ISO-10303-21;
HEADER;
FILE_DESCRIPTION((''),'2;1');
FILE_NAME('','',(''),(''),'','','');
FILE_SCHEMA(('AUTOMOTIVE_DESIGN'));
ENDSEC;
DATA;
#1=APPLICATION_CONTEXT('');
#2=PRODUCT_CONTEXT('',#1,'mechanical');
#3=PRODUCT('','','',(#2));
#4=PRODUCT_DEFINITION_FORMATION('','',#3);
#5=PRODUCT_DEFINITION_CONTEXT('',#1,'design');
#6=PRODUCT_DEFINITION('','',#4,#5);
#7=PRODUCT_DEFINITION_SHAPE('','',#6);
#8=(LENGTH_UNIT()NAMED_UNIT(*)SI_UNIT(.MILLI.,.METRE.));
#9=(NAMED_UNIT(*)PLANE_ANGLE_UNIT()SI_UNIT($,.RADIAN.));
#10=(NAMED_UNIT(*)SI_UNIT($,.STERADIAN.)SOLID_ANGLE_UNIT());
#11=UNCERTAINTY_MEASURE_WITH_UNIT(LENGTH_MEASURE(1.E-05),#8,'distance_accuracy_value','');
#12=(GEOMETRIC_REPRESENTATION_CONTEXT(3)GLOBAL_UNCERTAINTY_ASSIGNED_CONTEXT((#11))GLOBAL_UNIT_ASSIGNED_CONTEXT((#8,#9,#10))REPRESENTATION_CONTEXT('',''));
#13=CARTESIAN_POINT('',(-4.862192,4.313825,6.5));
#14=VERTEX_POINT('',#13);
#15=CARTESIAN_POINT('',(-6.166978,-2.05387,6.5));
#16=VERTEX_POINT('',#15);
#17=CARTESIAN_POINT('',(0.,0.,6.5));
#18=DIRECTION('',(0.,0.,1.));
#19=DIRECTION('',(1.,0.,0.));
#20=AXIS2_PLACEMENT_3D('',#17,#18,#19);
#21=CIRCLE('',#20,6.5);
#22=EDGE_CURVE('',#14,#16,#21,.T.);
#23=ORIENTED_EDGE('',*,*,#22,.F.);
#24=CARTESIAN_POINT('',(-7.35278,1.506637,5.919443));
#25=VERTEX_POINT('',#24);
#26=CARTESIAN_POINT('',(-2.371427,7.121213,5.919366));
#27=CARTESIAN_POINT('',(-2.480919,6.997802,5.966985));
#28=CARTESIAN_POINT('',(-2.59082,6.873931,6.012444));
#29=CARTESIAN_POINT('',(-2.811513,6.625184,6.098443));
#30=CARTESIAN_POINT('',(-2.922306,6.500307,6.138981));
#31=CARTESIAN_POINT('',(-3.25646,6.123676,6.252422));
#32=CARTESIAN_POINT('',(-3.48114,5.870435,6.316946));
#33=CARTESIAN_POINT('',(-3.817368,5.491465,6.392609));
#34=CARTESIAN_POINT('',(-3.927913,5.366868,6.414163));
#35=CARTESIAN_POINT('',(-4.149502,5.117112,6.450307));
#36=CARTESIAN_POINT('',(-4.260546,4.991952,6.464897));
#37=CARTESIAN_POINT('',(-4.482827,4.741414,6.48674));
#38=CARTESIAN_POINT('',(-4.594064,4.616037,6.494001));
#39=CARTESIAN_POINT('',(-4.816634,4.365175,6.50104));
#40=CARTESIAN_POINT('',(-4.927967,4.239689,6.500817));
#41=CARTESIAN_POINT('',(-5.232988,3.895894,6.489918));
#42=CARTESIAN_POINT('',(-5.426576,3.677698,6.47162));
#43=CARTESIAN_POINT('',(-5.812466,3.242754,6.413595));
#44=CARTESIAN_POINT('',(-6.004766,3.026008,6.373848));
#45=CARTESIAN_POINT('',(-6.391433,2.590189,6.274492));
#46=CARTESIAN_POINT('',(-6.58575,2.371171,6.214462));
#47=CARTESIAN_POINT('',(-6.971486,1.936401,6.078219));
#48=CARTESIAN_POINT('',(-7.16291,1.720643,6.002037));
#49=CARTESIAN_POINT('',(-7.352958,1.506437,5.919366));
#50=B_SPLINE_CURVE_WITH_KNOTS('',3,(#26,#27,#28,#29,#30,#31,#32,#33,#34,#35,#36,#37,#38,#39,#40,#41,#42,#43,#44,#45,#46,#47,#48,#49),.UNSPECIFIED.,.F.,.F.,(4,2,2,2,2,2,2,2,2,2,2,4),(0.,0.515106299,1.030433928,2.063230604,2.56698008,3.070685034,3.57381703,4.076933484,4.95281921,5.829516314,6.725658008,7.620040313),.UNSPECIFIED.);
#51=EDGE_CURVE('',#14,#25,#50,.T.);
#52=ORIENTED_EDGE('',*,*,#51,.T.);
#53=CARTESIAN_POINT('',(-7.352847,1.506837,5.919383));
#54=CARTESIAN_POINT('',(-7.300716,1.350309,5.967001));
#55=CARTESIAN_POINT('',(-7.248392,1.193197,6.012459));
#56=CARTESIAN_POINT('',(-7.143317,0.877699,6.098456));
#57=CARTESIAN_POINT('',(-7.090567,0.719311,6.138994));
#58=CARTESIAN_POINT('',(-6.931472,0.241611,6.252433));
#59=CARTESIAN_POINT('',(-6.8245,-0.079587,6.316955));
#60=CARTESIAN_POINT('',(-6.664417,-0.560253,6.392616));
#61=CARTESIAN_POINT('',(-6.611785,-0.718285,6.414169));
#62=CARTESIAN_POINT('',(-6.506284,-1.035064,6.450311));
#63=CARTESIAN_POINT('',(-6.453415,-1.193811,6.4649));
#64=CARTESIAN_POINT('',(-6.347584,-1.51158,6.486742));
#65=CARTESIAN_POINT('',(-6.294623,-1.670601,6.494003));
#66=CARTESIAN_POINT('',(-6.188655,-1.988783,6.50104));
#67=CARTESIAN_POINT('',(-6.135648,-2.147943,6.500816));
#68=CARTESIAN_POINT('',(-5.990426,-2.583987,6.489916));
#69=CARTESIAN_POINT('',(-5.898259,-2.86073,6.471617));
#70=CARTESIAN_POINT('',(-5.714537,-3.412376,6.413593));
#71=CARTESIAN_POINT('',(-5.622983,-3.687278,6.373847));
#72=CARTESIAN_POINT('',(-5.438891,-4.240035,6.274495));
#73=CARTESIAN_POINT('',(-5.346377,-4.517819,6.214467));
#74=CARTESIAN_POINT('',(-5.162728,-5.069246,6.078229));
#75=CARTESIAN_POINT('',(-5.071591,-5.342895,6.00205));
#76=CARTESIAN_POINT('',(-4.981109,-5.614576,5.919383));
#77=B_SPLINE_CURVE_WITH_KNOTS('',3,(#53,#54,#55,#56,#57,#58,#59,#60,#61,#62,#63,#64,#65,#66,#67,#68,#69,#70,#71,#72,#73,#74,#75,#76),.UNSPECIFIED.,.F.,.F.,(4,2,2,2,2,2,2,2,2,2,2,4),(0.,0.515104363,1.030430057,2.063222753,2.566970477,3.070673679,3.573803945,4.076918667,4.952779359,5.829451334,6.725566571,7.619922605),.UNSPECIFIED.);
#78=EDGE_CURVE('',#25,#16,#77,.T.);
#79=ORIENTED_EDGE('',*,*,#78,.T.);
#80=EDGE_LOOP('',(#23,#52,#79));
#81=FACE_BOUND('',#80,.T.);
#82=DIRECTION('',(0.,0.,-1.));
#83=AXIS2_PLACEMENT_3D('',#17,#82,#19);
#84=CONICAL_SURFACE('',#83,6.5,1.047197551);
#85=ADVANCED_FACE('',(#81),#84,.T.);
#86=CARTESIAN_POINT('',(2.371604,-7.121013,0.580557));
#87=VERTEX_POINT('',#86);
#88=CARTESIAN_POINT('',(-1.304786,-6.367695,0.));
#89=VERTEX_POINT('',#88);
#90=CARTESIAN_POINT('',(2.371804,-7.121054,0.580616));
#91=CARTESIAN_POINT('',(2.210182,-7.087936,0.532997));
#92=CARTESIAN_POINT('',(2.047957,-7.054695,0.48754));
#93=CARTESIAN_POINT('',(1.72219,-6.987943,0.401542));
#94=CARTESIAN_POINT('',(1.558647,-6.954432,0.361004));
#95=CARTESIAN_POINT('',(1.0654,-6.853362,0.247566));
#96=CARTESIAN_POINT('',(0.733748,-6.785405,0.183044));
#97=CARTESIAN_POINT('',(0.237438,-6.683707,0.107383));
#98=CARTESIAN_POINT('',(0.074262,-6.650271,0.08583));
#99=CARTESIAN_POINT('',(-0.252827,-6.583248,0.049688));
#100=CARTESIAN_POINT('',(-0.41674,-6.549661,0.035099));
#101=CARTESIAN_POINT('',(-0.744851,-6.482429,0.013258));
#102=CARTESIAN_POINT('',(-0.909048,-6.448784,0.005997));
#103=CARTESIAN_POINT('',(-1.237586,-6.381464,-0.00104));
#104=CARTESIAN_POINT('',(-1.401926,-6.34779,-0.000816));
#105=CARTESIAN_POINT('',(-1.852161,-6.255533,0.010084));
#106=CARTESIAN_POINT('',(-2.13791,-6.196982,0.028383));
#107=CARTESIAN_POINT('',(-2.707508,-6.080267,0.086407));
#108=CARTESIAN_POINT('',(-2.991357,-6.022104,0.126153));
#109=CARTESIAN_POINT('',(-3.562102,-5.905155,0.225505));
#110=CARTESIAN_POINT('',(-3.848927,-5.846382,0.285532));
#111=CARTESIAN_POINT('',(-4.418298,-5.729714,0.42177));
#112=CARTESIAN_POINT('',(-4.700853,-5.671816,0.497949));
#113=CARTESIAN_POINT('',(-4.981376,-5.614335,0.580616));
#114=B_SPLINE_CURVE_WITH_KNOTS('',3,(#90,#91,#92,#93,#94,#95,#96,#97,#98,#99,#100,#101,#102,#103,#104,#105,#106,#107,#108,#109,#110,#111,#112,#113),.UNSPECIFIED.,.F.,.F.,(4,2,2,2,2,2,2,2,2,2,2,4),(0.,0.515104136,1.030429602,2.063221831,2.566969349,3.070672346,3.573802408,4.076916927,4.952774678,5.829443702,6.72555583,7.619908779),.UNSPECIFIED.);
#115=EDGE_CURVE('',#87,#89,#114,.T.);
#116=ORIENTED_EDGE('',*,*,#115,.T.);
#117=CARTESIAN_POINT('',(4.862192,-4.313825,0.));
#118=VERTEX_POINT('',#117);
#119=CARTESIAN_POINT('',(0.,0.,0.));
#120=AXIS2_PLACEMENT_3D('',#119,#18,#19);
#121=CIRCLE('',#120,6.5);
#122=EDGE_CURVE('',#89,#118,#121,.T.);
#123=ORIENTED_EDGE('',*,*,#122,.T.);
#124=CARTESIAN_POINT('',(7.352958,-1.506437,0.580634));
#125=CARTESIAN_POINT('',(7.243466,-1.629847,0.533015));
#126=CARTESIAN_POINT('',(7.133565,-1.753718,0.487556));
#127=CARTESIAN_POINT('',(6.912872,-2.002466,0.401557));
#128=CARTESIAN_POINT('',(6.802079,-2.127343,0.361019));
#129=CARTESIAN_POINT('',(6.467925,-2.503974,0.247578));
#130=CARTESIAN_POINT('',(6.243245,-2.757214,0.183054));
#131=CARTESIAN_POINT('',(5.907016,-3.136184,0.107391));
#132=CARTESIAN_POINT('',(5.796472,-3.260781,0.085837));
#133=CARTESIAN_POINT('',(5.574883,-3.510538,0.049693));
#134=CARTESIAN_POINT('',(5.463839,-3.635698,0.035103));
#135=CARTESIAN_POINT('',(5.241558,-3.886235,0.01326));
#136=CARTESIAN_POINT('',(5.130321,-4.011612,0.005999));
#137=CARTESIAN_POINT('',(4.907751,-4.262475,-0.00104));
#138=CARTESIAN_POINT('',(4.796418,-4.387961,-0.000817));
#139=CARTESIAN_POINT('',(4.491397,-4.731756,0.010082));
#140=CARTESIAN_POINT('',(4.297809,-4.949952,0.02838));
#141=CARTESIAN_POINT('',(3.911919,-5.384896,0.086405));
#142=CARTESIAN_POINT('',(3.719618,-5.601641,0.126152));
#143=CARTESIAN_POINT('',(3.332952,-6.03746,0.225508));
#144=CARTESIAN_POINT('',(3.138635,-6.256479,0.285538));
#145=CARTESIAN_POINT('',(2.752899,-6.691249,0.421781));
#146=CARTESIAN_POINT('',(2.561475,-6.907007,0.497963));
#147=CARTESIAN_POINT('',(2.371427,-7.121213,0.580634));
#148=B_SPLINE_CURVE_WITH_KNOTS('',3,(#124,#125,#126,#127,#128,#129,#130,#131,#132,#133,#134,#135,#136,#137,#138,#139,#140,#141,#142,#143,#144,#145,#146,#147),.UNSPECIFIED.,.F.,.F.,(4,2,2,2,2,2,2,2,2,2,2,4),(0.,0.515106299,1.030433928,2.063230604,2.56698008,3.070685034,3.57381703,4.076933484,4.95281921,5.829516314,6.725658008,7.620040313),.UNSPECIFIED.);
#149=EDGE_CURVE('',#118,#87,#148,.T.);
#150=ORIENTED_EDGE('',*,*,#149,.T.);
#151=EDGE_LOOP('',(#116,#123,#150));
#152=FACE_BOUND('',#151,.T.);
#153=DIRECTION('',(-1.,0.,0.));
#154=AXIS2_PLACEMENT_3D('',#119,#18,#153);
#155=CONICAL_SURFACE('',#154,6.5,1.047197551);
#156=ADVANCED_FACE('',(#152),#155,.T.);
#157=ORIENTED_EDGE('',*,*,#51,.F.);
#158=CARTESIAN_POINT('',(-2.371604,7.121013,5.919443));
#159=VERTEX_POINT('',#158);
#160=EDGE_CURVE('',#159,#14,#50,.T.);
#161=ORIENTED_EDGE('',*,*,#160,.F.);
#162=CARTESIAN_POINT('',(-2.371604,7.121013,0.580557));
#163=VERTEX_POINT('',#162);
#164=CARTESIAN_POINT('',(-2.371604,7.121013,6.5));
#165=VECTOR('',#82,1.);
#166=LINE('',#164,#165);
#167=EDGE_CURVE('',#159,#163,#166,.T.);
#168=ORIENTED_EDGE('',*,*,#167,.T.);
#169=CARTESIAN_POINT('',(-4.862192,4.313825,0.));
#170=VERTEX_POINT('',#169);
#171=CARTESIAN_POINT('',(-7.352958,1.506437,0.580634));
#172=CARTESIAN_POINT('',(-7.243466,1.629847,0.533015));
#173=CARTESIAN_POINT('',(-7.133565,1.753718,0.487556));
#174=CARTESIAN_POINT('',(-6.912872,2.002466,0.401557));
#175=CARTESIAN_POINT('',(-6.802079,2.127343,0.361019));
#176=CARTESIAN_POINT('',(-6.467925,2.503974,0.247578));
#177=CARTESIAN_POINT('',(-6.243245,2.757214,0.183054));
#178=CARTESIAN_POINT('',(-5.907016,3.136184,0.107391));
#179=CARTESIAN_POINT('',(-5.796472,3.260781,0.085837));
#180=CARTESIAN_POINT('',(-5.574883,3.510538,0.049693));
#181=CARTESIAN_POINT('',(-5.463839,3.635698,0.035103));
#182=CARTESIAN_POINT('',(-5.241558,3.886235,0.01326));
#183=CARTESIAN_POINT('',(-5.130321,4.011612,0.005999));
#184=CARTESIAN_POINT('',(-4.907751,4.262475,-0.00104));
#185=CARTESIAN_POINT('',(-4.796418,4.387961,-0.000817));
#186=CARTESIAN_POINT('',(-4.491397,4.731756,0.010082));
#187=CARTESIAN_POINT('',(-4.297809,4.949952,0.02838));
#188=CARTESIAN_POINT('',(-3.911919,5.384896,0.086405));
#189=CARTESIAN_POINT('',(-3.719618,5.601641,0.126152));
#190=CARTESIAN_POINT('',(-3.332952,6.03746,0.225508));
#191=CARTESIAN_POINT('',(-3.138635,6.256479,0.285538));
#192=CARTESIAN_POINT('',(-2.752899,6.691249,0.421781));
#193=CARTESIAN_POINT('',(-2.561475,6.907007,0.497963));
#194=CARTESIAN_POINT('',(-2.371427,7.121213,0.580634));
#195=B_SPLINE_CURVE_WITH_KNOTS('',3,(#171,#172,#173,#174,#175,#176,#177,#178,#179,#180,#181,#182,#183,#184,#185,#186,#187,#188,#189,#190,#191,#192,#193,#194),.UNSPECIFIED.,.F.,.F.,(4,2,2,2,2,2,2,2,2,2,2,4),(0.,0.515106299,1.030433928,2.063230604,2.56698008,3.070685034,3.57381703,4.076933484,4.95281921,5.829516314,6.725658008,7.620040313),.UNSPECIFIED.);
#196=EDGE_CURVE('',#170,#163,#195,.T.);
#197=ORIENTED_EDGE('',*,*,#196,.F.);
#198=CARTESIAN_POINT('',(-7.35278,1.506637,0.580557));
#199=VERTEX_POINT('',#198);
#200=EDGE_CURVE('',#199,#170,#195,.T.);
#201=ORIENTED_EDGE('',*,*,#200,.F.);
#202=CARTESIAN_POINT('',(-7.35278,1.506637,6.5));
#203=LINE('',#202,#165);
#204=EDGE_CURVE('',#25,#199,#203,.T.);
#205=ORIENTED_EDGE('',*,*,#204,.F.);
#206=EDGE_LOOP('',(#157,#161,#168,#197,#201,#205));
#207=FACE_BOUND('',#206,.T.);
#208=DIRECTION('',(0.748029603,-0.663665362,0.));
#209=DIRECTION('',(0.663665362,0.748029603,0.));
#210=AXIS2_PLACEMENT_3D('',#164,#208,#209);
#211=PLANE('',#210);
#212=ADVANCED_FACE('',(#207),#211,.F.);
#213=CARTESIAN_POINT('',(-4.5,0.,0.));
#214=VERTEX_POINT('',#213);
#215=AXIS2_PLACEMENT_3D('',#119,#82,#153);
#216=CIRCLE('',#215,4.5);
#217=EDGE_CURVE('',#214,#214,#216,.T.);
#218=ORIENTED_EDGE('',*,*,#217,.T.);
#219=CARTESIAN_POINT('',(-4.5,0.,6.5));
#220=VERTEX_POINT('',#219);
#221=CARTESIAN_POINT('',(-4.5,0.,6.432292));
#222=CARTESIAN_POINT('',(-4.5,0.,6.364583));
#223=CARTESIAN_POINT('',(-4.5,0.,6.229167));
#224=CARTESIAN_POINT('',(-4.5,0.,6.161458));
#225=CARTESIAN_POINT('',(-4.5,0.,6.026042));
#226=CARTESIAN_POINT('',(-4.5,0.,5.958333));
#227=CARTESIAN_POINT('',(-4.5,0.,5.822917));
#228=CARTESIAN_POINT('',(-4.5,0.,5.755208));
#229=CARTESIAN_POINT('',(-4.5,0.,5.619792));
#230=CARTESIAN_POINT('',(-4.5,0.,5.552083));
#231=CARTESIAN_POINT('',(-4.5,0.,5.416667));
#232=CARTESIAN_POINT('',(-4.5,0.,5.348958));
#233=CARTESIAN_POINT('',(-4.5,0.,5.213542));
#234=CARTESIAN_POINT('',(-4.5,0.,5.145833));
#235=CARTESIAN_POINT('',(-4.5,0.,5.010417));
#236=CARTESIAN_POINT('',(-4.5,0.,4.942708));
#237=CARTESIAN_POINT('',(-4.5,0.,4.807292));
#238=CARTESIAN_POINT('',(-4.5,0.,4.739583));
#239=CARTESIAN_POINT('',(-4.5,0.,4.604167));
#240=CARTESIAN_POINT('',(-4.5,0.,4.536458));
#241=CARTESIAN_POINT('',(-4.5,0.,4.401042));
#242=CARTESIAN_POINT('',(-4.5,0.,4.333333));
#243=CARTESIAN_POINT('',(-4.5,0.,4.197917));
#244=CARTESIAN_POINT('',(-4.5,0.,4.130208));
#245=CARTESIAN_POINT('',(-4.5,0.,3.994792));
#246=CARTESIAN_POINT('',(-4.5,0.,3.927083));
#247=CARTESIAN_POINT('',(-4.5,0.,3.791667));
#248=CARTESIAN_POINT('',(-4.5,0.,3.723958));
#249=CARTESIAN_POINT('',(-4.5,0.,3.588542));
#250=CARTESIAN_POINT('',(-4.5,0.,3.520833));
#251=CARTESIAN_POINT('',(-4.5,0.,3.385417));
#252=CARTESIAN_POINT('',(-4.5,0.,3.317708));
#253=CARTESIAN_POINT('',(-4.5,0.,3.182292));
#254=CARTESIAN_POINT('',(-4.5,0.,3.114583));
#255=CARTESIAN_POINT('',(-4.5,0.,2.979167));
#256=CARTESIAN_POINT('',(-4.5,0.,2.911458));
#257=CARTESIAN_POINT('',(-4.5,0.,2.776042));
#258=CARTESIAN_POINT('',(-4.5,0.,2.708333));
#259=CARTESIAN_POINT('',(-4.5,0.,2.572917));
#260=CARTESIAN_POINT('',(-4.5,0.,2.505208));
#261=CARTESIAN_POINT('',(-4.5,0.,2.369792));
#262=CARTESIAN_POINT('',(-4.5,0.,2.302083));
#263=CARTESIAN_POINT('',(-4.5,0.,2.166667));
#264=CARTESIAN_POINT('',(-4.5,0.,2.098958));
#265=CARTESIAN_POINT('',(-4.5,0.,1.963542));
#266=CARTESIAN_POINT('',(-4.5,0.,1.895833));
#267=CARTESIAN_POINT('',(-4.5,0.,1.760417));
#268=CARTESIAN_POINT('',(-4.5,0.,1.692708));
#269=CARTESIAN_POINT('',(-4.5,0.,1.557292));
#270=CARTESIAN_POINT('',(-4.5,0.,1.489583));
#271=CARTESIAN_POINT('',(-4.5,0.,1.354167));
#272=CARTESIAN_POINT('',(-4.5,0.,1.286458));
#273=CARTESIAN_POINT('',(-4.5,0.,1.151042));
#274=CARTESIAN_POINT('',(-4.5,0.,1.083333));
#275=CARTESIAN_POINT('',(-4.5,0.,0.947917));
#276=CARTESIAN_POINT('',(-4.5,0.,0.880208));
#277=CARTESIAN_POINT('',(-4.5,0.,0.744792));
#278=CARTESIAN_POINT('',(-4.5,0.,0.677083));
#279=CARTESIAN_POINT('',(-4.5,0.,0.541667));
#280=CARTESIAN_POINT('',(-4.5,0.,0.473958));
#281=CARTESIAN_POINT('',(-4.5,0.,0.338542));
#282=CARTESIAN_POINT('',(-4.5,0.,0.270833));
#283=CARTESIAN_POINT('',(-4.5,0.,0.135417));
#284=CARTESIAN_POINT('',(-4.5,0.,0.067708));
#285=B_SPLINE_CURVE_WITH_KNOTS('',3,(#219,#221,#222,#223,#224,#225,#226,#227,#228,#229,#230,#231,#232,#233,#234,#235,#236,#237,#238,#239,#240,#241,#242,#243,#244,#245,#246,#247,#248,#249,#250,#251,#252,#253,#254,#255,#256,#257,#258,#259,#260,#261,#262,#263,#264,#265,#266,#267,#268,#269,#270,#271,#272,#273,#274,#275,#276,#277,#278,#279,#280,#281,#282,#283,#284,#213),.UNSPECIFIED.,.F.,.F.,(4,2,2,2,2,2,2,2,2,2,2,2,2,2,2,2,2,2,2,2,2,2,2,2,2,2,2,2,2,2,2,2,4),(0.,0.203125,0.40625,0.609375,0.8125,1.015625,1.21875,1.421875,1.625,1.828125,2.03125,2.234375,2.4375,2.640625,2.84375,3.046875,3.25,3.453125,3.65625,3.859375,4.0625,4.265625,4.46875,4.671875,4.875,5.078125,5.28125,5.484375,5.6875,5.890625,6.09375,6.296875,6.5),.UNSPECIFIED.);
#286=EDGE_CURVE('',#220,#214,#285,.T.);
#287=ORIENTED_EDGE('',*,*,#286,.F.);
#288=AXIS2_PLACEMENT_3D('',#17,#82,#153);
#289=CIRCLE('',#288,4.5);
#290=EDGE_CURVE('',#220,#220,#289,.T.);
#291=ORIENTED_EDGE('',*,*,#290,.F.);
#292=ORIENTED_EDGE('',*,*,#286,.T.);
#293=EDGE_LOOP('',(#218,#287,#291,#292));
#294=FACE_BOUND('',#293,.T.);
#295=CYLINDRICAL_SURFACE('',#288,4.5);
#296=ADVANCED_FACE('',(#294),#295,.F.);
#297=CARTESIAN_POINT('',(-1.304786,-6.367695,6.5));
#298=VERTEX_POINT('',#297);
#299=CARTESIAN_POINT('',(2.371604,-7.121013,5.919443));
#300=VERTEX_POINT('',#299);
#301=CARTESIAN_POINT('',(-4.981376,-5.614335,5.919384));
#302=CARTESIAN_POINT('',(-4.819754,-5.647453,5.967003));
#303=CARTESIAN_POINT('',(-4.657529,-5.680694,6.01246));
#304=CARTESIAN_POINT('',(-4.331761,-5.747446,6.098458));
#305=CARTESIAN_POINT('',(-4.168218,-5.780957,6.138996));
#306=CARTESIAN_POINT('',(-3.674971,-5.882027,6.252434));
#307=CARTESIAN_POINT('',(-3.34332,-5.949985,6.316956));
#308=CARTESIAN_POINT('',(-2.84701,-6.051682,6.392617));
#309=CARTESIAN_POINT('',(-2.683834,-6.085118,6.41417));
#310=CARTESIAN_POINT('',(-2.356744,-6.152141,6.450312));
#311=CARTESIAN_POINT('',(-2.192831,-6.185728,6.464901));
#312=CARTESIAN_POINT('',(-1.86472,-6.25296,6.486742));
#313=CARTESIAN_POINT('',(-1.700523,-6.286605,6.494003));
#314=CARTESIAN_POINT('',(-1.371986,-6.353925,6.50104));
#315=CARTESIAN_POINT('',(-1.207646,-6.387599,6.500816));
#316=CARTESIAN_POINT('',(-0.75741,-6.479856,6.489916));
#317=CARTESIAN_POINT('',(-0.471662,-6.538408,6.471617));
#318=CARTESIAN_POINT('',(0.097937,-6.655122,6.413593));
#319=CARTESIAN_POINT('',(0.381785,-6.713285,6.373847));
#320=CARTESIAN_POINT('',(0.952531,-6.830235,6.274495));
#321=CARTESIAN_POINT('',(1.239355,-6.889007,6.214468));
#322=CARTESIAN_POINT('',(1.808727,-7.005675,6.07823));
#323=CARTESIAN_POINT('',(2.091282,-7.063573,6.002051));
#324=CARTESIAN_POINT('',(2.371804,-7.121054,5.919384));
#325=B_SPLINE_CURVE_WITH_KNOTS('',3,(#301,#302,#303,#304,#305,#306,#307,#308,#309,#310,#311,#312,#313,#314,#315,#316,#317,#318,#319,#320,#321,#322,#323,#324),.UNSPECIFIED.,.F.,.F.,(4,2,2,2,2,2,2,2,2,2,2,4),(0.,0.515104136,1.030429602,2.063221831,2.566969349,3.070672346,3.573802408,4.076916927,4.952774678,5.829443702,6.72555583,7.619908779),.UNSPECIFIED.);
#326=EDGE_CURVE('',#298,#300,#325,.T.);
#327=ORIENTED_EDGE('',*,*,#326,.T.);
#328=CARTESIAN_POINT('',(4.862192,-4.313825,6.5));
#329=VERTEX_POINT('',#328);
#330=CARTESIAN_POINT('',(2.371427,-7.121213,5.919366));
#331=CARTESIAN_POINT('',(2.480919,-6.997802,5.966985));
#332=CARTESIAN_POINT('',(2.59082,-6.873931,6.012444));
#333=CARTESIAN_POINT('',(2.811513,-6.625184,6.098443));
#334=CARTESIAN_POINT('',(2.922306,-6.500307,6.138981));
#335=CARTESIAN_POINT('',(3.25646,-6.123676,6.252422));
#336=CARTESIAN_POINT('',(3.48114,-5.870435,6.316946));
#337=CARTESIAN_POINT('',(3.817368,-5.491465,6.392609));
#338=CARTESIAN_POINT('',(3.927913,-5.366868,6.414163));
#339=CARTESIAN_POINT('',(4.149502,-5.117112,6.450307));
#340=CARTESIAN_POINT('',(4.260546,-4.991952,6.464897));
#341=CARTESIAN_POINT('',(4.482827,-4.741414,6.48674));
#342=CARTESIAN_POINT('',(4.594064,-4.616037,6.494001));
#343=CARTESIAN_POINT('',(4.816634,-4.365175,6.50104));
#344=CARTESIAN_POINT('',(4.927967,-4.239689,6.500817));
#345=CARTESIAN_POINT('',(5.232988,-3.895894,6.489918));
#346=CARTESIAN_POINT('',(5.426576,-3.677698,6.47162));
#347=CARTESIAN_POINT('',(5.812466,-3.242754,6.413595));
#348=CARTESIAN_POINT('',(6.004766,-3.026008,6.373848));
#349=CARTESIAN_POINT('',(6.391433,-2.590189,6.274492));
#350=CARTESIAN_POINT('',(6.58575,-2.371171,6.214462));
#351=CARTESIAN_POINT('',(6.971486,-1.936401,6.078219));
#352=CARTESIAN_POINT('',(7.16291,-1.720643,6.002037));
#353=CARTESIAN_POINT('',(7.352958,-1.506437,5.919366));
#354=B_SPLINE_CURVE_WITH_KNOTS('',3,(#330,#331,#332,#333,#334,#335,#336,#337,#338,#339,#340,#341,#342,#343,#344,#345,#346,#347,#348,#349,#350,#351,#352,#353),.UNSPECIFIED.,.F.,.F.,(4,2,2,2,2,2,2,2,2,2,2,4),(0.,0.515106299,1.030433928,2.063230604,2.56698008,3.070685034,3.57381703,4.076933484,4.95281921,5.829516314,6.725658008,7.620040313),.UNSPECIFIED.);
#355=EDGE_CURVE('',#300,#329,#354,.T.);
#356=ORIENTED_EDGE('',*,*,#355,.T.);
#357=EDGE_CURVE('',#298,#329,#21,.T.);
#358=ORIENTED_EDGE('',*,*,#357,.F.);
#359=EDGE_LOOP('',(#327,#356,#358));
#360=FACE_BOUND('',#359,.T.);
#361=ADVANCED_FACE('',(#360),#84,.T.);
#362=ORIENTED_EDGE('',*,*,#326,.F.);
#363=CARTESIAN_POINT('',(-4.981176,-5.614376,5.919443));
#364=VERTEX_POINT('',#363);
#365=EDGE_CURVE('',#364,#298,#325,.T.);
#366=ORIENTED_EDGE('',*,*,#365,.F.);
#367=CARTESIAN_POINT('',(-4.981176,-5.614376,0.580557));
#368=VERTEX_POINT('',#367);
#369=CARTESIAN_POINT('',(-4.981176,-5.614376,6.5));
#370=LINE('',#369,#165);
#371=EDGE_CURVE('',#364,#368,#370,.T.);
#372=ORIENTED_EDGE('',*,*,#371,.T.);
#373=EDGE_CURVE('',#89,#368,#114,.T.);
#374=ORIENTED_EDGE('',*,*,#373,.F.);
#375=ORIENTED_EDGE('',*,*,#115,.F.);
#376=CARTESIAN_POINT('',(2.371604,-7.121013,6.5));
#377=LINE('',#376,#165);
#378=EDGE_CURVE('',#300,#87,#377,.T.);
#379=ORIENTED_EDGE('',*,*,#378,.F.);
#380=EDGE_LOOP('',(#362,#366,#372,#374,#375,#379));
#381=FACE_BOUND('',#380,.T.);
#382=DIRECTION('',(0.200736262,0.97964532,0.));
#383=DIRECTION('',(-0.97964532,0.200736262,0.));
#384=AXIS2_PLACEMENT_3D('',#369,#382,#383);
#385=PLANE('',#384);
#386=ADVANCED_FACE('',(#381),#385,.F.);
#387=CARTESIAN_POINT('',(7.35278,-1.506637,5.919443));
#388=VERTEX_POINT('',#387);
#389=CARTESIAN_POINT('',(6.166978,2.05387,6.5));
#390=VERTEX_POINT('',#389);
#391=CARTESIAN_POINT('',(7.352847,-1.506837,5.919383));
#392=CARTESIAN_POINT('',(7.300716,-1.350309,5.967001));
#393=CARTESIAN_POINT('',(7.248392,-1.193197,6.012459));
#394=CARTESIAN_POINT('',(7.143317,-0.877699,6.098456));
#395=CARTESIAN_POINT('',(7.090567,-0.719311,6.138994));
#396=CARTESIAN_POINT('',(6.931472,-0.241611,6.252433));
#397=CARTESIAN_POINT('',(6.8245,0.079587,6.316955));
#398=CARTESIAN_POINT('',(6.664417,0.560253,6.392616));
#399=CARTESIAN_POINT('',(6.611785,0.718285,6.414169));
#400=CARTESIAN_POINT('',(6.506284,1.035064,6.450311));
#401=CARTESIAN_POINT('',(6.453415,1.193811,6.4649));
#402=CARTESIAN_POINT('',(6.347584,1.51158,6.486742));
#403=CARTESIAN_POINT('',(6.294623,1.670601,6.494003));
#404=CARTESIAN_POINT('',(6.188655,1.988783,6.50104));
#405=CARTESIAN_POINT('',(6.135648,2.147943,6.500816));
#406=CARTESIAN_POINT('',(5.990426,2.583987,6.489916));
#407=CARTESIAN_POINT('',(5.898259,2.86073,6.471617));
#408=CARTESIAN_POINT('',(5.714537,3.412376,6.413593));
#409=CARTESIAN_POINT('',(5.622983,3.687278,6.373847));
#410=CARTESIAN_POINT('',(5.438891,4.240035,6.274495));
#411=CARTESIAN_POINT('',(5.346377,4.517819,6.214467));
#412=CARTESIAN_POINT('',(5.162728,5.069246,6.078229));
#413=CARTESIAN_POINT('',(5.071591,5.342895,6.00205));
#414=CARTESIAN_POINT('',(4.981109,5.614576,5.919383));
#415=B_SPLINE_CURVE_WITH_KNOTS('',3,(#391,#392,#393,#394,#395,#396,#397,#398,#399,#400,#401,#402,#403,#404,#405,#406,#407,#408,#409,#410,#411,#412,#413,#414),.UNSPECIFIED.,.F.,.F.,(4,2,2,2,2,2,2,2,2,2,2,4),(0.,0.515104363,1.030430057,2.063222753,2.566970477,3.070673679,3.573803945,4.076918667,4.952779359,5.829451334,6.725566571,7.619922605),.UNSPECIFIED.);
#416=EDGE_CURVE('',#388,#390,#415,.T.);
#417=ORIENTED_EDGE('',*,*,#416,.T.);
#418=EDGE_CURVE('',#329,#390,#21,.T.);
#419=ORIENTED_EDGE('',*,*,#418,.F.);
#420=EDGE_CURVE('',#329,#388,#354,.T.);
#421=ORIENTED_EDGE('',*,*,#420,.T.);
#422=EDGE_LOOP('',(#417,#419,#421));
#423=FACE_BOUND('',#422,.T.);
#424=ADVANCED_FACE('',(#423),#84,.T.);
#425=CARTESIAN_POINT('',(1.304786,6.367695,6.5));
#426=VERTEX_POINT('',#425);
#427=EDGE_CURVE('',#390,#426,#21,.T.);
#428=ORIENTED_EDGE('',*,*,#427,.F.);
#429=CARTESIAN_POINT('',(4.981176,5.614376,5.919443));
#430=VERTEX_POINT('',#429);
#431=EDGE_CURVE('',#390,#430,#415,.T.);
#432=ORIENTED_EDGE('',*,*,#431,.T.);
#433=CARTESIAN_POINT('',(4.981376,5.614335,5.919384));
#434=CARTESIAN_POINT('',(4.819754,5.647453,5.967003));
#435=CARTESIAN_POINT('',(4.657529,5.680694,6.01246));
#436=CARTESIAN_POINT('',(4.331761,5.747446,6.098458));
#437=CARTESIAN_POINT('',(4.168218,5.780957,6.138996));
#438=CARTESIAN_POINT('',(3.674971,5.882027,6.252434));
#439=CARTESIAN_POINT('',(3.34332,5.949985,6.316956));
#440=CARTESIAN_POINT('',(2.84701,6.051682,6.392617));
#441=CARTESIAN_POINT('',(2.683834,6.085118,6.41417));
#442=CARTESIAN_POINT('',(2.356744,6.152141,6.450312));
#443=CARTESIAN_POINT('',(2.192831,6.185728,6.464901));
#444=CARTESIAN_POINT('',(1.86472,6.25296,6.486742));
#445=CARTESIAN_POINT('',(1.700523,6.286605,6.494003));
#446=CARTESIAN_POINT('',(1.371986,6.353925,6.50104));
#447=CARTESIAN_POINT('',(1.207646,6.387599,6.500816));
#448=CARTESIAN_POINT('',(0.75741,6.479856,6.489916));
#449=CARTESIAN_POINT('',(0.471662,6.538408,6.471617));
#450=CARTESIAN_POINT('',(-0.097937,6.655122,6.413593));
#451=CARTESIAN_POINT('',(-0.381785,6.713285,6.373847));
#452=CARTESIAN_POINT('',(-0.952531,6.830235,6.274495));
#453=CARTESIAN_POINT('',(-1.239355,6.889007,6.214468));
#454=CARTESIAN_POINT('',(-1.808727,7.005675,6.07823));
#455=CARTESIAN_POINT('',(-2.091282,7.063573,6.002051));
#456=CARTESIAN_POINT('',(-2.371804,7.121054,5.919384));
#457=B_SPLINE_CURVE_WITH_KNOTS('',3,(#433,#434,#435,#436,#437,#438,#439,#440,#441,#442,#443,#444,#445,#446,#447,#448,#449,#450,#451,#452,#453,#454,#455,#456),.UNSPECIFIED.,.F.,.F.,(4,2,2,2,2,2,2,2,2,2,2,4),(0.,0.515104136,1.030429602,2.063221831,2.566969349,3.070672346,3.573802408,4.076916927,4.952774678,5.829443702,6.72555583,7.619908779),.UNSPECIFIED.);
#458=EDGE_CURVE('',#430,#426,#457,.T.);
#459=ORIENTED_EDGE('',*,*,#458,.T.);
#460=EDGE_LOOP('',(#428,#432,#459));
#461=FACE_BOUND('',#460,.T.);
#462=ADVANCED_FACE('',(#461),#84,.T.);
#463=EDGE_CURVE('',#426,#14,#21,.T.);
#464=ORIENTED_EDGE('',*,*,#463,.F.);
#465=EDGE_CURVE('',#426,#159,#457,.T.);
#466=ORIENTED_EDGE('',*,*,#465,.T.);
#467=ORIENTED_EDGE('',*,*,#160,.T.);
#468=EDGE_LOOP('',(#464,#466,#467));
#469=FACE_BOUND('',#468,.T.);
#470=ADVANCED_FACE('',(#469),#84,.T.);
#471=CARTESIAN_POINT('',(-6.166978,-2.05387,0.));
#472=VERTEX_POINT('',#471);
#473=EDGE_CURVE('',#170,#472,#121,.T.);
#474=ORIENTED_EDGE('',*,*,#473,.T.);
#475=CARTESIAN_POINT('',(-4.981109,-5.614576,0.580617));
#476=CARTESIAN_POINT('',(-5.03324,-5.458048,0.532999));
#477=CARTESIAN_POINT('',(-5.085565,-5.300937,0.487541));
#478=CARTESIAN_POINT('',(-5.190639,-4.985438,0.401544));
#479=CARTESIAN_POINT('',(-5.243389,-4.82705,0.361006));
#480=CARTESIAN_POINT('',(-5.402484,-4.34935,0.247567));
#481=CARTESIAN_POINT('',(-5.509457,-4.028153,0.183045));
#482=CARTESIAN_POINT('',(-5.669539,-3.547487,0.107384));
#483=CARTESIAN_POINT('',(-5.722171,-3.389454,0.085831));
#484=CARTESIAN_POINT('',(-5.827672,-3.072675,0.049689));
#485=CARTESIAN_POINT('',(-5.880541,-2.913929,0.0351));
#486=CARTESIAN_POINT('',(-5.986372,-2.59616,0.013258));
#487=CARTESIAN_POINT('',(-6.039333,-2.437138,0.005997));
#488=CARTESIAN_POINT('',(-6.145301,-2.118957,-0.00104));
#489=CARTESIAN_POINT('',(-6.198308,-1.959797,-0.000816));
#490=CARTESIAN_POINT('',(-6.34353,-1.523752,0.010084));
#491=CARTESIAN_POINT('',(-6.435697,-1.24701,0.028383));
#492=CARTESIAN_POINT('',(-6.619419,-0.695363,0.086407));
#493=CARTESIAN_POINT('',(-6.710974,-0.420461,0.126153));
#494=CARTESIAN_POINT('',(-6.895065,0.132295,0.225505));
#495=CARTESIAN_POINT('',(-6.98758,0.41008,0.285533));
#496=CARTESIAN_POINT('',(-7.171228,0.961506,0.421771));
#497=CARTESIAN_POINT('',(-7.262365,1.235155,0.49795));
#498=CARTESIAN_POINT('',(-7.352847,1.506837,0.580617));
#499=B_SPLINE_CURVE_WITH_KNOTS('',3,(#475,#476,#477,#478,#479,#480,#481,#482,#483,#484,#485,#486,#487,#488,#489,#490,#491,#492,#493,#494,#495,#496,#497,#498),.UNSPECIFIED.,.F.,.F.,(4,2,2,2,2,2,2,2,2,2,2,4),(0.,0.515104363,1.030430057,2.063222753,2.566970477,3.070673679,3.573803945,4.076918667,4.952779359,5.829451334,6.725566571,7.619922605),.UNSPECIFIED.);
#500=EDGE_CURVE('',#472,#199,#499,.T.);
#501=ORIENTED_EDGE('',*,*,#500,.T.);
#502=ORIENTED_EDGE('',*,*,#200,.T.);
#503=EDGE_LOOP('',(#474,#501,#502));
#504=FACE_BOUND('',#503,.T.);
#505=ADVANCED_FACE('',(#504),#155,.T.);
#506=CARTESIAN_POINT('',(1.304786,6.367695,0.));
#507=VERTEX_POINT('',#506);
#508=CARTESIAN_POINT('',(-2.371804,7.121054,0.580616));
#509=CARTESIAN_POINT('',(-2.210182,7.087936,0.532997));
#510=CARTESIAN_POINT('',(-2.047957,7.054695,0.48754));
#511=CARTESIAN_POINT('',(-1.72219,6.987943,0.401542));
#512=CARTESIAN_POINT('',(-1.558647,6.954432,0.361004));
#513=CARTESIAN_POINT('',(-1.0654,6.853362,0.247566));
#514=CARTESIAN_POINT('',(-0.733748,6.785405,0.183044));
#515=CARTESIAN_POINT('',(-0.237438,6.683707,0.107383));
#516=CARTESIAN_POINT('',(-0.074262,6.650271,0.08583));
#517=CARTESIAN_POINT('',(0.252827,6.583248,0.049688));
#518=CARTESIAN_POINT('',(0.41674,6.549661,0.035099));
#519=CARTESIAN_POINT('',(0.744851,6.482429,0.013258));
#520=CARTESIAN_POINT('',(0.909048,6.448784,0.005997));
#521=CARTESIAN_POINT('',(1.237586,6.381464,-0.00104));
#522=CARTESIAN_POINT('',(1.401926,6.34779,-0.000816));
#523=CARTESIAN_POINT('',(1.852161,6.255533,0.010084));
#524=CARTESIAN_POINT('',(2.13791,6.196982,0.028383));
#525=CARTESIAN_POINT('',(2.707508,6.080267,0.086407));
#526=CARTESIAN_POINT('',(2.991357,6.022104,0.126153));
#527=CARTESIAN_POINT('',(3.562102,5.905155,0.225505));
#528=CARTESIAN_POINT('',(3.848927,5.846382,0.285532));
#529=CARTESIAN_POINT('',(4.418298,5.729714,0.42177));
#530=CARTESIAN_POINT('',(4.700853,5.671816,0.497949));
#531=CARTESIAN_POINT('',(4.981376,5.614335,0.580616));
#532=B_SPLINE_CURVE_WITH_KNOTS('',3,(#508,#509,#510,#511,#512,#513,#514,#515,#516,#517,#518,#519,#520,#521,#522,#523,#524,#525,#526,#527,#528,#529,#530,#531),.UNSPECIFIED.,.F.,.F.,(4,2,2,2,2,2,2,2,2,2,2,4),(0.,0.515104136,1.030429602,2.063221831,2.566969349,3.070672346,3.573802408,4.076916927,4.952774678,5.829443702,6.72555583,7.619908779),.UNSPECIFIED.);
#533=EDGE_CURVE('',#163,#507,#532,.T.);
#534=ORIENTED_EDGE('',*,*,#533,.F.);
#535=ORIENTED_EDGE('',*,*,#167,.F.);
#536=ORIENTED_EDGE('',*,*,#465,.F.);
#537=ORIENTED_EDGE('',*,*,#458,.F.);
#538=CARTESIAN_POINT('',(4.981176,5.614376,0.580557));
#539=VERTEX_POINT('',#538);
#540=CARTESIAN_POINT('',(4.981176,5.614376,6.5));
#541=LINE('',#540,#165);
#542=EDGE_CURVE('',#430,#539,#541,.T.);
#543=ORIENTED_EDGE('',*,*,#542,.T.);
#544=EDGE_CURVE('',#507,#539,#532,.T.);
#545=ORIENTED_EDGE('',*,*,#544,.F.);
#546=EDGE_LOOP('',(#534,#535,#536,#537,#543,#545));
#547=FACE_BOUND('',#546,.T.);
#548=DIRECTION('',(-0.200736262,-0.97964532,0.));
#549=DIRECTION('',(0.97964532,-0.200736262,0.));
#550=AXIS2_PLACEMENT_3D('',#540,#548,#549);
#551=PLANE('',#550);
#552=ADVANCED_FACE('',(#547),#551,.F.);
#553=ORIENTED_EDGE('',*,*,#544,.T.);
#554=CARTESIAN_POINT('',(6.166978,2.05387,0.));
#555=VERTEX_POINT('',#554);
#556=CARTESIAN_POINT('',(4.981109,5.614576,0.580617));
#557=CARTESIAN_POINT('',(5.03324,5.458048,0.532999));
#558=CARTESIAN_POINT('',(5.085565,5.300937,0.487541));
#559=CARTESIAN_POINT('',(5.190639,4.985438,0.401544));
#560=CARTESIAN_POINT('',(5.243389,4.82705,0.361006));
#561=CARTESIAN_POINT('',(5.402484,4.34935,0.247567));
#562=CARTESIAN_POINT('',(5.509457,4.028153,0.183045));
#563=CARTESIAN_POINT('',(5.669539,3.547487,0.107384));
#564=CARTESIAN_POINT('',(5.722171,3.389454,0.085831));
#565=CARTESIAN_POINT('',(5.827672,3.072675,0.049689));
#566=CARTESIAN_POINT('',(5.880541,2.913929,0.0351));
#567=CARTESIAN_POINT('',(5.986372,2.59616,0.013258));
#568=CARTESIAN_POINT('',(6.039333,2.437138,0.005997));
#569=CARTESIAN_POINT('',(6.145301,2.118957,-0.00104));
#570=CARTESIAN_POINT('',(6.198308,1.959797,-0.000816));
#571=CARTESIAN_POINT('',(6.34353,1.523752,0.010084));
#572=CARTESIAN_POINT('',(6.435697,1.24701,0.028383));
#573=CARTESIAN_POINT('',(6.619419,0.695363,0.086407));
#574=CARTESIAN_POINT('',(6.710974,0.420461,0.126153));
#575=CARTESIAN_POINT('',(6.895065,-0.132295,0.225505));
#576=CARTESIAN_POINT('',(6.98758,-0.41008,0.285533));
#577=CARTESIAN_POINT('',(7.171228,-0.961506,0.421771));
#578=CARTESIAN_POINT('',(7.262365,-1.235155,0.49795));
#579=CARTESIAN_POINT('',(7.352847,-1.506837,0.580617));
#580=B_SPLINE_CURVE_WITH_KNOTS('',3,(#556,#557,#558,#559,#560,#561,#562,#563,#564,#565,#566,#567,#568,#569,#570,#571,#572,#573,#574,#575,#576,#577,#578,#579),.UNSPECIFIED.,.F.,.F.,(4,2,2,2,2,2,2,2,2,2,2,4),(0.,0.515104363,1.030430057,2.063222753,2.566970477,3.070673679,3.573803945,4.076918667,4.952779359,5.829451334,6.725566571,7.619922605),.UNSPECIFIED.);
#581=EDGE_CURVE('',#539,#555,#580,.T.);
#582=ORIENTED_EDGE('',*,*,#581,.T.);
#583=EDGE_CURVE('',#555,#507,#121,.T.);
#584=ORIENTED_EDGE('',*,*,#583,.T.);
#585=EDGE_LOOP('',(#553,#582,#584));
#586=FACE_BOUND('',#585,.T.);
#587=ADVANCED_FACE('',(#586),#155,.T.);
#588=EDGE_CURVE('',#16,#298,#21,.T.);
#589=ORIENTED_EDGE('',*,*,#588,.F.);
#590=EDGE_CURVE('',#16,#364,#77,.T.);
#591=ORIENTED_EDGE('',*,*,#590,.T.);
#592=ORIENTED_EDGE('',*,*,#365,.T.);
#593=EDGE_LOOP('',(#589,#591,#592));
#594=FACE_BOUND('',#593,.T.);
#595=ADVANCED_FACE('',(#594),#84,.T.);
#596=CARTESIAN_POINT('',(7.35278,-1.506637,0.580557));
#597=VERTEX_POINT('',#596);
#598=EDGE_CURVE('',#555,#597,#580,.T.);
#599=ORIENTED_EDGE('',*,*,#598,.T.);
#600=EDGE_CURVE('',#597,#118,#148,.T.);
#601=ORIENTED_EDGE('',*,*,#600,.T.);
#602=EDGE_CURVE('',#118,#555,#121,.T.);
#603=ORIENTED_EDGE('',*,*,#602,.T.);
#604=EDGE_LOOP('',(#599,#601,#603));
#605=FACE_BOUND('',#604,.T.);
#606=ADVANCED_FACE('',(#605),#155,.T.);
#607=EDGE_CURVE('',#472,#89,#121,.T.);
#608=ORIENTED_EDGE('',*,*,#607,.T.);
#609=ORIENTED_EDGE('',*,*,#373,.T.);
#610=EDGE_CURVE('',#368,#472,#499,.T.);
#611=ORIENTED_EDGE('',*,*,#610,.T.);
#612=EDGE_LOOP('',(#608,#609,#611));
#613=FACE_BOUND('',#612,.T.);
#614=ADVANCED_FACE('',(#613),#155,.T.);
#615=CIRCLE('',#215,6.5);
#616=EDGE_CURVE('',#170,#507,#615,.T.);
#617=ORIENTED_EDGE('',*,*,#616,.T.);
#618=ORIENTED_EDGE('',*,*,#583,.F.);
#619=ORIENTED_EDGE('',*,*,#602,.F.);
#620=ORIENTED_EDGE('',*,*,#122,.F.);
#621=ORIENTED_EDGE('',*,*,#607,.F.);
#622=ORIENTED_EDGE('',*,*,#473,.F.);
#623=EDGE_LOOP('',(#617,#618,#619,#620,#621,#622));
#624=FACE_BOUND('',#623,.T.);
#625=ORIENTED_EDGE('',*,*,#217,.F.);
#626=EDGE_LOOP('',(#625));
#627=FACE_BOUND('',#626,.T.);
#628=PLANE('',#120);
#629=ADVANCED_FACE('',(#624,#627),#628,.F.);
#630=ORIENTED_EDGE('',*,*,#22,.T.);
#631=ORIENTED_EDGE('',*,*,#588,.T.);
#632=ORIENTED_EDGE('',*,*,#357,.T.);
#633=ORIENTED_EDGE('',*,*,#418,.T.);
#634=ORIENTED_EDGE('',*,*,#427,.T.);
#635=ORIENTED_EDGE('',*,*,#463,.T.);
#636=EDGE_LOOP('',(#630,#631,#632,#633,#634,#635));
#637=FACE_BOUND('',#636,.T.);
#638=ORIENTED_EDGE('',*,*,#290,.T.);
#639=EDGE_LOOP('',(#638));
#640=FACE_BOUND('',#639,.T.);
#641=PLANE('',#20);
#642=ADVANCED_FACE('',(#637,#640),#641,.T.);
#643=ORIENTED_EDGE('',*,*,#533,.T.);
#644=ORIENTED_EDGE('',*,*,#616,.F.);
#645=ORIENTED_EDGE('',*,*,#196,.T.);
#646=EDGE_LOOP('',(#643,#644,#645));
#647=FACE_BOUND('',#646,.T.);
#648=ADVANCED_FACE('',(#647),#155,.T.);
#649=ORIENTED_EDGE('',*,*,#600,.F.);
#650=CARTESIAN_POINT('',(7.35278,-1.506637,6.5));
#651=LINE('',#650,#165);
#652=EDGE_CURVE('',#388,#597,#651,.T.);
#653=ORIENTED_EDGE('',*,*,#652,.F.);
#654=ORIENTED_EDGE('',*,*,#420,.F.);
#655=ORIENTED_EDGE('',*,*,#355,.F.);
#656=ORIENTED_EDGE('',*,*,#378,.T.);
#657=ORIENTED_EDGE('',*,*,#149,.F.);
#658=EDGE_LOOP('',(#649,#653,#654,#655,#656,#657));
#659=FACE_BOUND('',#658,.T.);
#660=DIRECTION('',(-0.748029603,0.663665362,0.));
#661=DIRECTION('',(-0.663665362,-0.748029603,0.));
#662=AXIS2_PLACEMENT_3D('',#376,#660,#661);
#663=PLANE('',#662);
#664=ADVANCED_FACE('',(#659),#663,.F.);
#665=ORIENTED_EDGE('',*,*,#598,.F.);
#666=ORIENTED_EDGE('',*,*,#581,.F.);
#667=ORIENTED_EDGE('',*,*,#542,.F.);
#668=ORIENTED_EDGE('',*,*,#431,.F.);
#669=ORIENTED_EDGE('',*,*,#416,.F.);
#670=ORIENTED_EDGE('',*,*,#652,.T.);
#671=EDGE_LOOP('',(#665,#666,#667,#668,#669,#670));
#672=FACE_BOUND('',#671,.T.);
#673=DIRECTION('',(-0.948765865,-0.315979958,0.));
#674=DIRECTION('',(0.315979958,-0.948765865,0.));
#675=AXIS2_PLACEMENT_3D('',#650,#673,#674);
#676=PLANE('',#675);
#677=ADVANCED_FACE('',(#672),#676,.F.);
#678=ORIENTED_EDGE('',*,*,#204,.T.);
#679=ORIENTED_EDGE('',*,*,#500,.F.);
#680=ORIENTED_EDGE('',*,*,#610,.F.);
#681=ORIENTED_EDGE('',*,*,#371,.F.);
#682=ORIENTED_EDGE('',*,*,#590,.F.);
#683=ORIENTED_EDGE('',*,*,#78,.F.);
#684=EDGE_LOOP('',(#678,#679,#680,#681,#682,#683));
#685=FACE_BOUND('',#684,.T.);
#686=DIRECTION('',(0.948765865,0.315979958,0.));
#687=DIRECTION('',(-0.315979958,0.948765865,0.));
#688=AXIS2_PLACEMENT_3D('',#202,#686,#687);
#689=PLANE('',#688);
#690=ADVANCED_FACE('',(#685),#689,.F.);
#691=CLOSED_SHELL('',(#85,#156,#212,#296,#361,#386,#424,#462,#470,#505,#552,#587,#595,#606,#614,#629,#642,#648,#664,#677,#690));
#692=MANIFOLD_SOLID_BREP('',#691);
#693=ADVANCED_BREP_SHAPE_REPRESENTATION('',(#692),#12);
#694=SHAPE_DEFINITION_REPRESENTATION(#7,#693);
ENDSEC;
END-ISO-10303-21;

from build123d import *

# Parameters (mm, degrees)
BOSS_EXTRUDE1_DEPTH = 6.5
SKETCH2_OUTSIDE_W   = 43.518
SKETCH2_OUTSIDE_H   = 43.054
SKETCH2_OUTSIDE_R   = 6.5
CUT_EXTRUDE1_DEPTH  = 6.5
CUT_EXTRUDE1_DRAFT  = -60
SKETCH3_OUTSIDE_W   = 43.518
SKETCH3_OUTSIDE_H   = 43.054
SKETCH3_OUTSIDE_R   = 6.5
CUT_EXTRUDE2_DEPTH  = 6.5
CUT_EXTRUDE2_DRAFT  = -60
SKETCH4_R           = 4.5
CUT_EXTRUDE3_DEPTH  = 13.125271319


with BuildPart() as part:
    # Sketch1 → Boss-Extrude1 (new body)
    with BuildSketch(Plane.XY):
        Polygon((4.981175881, 5.614376205), (-2.371604479, 7.121012956), (-7.352780361, 1.506636751), (-4.981175881, -5.614376205), (2.371604479, -7.121012956), (7.352780361, -1.506636751), align=None)
    extrude(amount=BOSS_EXTRUDE1_DEPTH)


with BuildPart() as cut_extrude1_tool:
    # Sketch2 outside → Cut-Extrude1 (with draft: the straight prism first)
    with BuildSketch(Plane.XY.offset(6.5)):
        Rectangle(SKETCH2_OUTSIDE_W, SKETCH2_OUTSIDE_H)
        Circle(SKETCH2_OUTSIDE_R, mode=Mode.SUBTRACT)
    extrude(amount=-CUT_EXTRUDE1_DEPTH)
    # Cut-Extrude1: the draft: its side faces are tilted about the plane it starts from
    cut_extrude1_sides = [cut_extrude1_tool.faces().sort_by_distance(p)[0] for p in [
        (0, -21.527, 3.25),
        (21.759, 0, 3.25),
        (0, 21.527, 3.25),
        (-21.759, 0, 3.25),
        (-6.5, 0, 3.25),
    ]]
    draft(cut_extrude1_sides, Plane.XY.offset(6.5), CUT_EXTRUDE1_DRAFT)


with BuildPart() as part_1:
    add(part.part)

    # Cut-Extrude1: cut by cut_extrude1_tool
    add(cut_extrude1_tool.part, mode=Mode.SUBTRACT)


with BuildPart() as cut_extrude2_tool:
    # Sketch3 outside → Cut-Extrude2 (with draft: the straight prism first)
    with BuildSketch(Plane(origin=(0, 0, 0), x_dir=(-1, 0, 0), z_dir=(0, 0, -1))):
        Rectangle(SKETCH3_OUTSIDE_W, SKETCH3_OUTSIDE_H)
        Circle(SKETCH3_OUTSIDE_R, mode=Mode.SUBTRACT)
    extrude(amount=-CUT_EXTRUDE2_DEPTH)
    # Cut-Extrude2: the draft: its side faces are tilted about the plane it starts from
    cut_extrude2_sides = [cut_extrude2_tool.faces().sort_by_distance(p)[0] for p in [
        (0, -21.527, 3.25),
        (-21.759, 0, 3.25),
        (0, 21.527, 3.25),
        (21.759, 0, 3.25),
        (6.5, 0, 3.25),
    ]]
    draft(cut_extrude2_sides, Plane(origin=(0, 0, 0), x_dir=(-1, 0, 0), z_dir=(0, 0, -1)), CUT_EXTRUDE2_DRAFT)


with BuildPart() as part_2:
    add(part_1.part)

    # Cut-Extrude2: cut by cut_extrude2_tool
    add(cut_extrude2_tool.part, mode=Mode.SUBTRACT)

    # Sketch4 → Cut-Extrude3 (cut, through all)
    with BuildSketch(Plane(origin=(0, 0, 0), x_dir=(-1, 0, 0), z_dir=(0, 0, -1))):
        Circle(SKETCH4_R)
    extrude(amount=-CUT_EXTRUDE3_DEPTH, mode=Mode.SUBTRACT)


solid = part_2.part
